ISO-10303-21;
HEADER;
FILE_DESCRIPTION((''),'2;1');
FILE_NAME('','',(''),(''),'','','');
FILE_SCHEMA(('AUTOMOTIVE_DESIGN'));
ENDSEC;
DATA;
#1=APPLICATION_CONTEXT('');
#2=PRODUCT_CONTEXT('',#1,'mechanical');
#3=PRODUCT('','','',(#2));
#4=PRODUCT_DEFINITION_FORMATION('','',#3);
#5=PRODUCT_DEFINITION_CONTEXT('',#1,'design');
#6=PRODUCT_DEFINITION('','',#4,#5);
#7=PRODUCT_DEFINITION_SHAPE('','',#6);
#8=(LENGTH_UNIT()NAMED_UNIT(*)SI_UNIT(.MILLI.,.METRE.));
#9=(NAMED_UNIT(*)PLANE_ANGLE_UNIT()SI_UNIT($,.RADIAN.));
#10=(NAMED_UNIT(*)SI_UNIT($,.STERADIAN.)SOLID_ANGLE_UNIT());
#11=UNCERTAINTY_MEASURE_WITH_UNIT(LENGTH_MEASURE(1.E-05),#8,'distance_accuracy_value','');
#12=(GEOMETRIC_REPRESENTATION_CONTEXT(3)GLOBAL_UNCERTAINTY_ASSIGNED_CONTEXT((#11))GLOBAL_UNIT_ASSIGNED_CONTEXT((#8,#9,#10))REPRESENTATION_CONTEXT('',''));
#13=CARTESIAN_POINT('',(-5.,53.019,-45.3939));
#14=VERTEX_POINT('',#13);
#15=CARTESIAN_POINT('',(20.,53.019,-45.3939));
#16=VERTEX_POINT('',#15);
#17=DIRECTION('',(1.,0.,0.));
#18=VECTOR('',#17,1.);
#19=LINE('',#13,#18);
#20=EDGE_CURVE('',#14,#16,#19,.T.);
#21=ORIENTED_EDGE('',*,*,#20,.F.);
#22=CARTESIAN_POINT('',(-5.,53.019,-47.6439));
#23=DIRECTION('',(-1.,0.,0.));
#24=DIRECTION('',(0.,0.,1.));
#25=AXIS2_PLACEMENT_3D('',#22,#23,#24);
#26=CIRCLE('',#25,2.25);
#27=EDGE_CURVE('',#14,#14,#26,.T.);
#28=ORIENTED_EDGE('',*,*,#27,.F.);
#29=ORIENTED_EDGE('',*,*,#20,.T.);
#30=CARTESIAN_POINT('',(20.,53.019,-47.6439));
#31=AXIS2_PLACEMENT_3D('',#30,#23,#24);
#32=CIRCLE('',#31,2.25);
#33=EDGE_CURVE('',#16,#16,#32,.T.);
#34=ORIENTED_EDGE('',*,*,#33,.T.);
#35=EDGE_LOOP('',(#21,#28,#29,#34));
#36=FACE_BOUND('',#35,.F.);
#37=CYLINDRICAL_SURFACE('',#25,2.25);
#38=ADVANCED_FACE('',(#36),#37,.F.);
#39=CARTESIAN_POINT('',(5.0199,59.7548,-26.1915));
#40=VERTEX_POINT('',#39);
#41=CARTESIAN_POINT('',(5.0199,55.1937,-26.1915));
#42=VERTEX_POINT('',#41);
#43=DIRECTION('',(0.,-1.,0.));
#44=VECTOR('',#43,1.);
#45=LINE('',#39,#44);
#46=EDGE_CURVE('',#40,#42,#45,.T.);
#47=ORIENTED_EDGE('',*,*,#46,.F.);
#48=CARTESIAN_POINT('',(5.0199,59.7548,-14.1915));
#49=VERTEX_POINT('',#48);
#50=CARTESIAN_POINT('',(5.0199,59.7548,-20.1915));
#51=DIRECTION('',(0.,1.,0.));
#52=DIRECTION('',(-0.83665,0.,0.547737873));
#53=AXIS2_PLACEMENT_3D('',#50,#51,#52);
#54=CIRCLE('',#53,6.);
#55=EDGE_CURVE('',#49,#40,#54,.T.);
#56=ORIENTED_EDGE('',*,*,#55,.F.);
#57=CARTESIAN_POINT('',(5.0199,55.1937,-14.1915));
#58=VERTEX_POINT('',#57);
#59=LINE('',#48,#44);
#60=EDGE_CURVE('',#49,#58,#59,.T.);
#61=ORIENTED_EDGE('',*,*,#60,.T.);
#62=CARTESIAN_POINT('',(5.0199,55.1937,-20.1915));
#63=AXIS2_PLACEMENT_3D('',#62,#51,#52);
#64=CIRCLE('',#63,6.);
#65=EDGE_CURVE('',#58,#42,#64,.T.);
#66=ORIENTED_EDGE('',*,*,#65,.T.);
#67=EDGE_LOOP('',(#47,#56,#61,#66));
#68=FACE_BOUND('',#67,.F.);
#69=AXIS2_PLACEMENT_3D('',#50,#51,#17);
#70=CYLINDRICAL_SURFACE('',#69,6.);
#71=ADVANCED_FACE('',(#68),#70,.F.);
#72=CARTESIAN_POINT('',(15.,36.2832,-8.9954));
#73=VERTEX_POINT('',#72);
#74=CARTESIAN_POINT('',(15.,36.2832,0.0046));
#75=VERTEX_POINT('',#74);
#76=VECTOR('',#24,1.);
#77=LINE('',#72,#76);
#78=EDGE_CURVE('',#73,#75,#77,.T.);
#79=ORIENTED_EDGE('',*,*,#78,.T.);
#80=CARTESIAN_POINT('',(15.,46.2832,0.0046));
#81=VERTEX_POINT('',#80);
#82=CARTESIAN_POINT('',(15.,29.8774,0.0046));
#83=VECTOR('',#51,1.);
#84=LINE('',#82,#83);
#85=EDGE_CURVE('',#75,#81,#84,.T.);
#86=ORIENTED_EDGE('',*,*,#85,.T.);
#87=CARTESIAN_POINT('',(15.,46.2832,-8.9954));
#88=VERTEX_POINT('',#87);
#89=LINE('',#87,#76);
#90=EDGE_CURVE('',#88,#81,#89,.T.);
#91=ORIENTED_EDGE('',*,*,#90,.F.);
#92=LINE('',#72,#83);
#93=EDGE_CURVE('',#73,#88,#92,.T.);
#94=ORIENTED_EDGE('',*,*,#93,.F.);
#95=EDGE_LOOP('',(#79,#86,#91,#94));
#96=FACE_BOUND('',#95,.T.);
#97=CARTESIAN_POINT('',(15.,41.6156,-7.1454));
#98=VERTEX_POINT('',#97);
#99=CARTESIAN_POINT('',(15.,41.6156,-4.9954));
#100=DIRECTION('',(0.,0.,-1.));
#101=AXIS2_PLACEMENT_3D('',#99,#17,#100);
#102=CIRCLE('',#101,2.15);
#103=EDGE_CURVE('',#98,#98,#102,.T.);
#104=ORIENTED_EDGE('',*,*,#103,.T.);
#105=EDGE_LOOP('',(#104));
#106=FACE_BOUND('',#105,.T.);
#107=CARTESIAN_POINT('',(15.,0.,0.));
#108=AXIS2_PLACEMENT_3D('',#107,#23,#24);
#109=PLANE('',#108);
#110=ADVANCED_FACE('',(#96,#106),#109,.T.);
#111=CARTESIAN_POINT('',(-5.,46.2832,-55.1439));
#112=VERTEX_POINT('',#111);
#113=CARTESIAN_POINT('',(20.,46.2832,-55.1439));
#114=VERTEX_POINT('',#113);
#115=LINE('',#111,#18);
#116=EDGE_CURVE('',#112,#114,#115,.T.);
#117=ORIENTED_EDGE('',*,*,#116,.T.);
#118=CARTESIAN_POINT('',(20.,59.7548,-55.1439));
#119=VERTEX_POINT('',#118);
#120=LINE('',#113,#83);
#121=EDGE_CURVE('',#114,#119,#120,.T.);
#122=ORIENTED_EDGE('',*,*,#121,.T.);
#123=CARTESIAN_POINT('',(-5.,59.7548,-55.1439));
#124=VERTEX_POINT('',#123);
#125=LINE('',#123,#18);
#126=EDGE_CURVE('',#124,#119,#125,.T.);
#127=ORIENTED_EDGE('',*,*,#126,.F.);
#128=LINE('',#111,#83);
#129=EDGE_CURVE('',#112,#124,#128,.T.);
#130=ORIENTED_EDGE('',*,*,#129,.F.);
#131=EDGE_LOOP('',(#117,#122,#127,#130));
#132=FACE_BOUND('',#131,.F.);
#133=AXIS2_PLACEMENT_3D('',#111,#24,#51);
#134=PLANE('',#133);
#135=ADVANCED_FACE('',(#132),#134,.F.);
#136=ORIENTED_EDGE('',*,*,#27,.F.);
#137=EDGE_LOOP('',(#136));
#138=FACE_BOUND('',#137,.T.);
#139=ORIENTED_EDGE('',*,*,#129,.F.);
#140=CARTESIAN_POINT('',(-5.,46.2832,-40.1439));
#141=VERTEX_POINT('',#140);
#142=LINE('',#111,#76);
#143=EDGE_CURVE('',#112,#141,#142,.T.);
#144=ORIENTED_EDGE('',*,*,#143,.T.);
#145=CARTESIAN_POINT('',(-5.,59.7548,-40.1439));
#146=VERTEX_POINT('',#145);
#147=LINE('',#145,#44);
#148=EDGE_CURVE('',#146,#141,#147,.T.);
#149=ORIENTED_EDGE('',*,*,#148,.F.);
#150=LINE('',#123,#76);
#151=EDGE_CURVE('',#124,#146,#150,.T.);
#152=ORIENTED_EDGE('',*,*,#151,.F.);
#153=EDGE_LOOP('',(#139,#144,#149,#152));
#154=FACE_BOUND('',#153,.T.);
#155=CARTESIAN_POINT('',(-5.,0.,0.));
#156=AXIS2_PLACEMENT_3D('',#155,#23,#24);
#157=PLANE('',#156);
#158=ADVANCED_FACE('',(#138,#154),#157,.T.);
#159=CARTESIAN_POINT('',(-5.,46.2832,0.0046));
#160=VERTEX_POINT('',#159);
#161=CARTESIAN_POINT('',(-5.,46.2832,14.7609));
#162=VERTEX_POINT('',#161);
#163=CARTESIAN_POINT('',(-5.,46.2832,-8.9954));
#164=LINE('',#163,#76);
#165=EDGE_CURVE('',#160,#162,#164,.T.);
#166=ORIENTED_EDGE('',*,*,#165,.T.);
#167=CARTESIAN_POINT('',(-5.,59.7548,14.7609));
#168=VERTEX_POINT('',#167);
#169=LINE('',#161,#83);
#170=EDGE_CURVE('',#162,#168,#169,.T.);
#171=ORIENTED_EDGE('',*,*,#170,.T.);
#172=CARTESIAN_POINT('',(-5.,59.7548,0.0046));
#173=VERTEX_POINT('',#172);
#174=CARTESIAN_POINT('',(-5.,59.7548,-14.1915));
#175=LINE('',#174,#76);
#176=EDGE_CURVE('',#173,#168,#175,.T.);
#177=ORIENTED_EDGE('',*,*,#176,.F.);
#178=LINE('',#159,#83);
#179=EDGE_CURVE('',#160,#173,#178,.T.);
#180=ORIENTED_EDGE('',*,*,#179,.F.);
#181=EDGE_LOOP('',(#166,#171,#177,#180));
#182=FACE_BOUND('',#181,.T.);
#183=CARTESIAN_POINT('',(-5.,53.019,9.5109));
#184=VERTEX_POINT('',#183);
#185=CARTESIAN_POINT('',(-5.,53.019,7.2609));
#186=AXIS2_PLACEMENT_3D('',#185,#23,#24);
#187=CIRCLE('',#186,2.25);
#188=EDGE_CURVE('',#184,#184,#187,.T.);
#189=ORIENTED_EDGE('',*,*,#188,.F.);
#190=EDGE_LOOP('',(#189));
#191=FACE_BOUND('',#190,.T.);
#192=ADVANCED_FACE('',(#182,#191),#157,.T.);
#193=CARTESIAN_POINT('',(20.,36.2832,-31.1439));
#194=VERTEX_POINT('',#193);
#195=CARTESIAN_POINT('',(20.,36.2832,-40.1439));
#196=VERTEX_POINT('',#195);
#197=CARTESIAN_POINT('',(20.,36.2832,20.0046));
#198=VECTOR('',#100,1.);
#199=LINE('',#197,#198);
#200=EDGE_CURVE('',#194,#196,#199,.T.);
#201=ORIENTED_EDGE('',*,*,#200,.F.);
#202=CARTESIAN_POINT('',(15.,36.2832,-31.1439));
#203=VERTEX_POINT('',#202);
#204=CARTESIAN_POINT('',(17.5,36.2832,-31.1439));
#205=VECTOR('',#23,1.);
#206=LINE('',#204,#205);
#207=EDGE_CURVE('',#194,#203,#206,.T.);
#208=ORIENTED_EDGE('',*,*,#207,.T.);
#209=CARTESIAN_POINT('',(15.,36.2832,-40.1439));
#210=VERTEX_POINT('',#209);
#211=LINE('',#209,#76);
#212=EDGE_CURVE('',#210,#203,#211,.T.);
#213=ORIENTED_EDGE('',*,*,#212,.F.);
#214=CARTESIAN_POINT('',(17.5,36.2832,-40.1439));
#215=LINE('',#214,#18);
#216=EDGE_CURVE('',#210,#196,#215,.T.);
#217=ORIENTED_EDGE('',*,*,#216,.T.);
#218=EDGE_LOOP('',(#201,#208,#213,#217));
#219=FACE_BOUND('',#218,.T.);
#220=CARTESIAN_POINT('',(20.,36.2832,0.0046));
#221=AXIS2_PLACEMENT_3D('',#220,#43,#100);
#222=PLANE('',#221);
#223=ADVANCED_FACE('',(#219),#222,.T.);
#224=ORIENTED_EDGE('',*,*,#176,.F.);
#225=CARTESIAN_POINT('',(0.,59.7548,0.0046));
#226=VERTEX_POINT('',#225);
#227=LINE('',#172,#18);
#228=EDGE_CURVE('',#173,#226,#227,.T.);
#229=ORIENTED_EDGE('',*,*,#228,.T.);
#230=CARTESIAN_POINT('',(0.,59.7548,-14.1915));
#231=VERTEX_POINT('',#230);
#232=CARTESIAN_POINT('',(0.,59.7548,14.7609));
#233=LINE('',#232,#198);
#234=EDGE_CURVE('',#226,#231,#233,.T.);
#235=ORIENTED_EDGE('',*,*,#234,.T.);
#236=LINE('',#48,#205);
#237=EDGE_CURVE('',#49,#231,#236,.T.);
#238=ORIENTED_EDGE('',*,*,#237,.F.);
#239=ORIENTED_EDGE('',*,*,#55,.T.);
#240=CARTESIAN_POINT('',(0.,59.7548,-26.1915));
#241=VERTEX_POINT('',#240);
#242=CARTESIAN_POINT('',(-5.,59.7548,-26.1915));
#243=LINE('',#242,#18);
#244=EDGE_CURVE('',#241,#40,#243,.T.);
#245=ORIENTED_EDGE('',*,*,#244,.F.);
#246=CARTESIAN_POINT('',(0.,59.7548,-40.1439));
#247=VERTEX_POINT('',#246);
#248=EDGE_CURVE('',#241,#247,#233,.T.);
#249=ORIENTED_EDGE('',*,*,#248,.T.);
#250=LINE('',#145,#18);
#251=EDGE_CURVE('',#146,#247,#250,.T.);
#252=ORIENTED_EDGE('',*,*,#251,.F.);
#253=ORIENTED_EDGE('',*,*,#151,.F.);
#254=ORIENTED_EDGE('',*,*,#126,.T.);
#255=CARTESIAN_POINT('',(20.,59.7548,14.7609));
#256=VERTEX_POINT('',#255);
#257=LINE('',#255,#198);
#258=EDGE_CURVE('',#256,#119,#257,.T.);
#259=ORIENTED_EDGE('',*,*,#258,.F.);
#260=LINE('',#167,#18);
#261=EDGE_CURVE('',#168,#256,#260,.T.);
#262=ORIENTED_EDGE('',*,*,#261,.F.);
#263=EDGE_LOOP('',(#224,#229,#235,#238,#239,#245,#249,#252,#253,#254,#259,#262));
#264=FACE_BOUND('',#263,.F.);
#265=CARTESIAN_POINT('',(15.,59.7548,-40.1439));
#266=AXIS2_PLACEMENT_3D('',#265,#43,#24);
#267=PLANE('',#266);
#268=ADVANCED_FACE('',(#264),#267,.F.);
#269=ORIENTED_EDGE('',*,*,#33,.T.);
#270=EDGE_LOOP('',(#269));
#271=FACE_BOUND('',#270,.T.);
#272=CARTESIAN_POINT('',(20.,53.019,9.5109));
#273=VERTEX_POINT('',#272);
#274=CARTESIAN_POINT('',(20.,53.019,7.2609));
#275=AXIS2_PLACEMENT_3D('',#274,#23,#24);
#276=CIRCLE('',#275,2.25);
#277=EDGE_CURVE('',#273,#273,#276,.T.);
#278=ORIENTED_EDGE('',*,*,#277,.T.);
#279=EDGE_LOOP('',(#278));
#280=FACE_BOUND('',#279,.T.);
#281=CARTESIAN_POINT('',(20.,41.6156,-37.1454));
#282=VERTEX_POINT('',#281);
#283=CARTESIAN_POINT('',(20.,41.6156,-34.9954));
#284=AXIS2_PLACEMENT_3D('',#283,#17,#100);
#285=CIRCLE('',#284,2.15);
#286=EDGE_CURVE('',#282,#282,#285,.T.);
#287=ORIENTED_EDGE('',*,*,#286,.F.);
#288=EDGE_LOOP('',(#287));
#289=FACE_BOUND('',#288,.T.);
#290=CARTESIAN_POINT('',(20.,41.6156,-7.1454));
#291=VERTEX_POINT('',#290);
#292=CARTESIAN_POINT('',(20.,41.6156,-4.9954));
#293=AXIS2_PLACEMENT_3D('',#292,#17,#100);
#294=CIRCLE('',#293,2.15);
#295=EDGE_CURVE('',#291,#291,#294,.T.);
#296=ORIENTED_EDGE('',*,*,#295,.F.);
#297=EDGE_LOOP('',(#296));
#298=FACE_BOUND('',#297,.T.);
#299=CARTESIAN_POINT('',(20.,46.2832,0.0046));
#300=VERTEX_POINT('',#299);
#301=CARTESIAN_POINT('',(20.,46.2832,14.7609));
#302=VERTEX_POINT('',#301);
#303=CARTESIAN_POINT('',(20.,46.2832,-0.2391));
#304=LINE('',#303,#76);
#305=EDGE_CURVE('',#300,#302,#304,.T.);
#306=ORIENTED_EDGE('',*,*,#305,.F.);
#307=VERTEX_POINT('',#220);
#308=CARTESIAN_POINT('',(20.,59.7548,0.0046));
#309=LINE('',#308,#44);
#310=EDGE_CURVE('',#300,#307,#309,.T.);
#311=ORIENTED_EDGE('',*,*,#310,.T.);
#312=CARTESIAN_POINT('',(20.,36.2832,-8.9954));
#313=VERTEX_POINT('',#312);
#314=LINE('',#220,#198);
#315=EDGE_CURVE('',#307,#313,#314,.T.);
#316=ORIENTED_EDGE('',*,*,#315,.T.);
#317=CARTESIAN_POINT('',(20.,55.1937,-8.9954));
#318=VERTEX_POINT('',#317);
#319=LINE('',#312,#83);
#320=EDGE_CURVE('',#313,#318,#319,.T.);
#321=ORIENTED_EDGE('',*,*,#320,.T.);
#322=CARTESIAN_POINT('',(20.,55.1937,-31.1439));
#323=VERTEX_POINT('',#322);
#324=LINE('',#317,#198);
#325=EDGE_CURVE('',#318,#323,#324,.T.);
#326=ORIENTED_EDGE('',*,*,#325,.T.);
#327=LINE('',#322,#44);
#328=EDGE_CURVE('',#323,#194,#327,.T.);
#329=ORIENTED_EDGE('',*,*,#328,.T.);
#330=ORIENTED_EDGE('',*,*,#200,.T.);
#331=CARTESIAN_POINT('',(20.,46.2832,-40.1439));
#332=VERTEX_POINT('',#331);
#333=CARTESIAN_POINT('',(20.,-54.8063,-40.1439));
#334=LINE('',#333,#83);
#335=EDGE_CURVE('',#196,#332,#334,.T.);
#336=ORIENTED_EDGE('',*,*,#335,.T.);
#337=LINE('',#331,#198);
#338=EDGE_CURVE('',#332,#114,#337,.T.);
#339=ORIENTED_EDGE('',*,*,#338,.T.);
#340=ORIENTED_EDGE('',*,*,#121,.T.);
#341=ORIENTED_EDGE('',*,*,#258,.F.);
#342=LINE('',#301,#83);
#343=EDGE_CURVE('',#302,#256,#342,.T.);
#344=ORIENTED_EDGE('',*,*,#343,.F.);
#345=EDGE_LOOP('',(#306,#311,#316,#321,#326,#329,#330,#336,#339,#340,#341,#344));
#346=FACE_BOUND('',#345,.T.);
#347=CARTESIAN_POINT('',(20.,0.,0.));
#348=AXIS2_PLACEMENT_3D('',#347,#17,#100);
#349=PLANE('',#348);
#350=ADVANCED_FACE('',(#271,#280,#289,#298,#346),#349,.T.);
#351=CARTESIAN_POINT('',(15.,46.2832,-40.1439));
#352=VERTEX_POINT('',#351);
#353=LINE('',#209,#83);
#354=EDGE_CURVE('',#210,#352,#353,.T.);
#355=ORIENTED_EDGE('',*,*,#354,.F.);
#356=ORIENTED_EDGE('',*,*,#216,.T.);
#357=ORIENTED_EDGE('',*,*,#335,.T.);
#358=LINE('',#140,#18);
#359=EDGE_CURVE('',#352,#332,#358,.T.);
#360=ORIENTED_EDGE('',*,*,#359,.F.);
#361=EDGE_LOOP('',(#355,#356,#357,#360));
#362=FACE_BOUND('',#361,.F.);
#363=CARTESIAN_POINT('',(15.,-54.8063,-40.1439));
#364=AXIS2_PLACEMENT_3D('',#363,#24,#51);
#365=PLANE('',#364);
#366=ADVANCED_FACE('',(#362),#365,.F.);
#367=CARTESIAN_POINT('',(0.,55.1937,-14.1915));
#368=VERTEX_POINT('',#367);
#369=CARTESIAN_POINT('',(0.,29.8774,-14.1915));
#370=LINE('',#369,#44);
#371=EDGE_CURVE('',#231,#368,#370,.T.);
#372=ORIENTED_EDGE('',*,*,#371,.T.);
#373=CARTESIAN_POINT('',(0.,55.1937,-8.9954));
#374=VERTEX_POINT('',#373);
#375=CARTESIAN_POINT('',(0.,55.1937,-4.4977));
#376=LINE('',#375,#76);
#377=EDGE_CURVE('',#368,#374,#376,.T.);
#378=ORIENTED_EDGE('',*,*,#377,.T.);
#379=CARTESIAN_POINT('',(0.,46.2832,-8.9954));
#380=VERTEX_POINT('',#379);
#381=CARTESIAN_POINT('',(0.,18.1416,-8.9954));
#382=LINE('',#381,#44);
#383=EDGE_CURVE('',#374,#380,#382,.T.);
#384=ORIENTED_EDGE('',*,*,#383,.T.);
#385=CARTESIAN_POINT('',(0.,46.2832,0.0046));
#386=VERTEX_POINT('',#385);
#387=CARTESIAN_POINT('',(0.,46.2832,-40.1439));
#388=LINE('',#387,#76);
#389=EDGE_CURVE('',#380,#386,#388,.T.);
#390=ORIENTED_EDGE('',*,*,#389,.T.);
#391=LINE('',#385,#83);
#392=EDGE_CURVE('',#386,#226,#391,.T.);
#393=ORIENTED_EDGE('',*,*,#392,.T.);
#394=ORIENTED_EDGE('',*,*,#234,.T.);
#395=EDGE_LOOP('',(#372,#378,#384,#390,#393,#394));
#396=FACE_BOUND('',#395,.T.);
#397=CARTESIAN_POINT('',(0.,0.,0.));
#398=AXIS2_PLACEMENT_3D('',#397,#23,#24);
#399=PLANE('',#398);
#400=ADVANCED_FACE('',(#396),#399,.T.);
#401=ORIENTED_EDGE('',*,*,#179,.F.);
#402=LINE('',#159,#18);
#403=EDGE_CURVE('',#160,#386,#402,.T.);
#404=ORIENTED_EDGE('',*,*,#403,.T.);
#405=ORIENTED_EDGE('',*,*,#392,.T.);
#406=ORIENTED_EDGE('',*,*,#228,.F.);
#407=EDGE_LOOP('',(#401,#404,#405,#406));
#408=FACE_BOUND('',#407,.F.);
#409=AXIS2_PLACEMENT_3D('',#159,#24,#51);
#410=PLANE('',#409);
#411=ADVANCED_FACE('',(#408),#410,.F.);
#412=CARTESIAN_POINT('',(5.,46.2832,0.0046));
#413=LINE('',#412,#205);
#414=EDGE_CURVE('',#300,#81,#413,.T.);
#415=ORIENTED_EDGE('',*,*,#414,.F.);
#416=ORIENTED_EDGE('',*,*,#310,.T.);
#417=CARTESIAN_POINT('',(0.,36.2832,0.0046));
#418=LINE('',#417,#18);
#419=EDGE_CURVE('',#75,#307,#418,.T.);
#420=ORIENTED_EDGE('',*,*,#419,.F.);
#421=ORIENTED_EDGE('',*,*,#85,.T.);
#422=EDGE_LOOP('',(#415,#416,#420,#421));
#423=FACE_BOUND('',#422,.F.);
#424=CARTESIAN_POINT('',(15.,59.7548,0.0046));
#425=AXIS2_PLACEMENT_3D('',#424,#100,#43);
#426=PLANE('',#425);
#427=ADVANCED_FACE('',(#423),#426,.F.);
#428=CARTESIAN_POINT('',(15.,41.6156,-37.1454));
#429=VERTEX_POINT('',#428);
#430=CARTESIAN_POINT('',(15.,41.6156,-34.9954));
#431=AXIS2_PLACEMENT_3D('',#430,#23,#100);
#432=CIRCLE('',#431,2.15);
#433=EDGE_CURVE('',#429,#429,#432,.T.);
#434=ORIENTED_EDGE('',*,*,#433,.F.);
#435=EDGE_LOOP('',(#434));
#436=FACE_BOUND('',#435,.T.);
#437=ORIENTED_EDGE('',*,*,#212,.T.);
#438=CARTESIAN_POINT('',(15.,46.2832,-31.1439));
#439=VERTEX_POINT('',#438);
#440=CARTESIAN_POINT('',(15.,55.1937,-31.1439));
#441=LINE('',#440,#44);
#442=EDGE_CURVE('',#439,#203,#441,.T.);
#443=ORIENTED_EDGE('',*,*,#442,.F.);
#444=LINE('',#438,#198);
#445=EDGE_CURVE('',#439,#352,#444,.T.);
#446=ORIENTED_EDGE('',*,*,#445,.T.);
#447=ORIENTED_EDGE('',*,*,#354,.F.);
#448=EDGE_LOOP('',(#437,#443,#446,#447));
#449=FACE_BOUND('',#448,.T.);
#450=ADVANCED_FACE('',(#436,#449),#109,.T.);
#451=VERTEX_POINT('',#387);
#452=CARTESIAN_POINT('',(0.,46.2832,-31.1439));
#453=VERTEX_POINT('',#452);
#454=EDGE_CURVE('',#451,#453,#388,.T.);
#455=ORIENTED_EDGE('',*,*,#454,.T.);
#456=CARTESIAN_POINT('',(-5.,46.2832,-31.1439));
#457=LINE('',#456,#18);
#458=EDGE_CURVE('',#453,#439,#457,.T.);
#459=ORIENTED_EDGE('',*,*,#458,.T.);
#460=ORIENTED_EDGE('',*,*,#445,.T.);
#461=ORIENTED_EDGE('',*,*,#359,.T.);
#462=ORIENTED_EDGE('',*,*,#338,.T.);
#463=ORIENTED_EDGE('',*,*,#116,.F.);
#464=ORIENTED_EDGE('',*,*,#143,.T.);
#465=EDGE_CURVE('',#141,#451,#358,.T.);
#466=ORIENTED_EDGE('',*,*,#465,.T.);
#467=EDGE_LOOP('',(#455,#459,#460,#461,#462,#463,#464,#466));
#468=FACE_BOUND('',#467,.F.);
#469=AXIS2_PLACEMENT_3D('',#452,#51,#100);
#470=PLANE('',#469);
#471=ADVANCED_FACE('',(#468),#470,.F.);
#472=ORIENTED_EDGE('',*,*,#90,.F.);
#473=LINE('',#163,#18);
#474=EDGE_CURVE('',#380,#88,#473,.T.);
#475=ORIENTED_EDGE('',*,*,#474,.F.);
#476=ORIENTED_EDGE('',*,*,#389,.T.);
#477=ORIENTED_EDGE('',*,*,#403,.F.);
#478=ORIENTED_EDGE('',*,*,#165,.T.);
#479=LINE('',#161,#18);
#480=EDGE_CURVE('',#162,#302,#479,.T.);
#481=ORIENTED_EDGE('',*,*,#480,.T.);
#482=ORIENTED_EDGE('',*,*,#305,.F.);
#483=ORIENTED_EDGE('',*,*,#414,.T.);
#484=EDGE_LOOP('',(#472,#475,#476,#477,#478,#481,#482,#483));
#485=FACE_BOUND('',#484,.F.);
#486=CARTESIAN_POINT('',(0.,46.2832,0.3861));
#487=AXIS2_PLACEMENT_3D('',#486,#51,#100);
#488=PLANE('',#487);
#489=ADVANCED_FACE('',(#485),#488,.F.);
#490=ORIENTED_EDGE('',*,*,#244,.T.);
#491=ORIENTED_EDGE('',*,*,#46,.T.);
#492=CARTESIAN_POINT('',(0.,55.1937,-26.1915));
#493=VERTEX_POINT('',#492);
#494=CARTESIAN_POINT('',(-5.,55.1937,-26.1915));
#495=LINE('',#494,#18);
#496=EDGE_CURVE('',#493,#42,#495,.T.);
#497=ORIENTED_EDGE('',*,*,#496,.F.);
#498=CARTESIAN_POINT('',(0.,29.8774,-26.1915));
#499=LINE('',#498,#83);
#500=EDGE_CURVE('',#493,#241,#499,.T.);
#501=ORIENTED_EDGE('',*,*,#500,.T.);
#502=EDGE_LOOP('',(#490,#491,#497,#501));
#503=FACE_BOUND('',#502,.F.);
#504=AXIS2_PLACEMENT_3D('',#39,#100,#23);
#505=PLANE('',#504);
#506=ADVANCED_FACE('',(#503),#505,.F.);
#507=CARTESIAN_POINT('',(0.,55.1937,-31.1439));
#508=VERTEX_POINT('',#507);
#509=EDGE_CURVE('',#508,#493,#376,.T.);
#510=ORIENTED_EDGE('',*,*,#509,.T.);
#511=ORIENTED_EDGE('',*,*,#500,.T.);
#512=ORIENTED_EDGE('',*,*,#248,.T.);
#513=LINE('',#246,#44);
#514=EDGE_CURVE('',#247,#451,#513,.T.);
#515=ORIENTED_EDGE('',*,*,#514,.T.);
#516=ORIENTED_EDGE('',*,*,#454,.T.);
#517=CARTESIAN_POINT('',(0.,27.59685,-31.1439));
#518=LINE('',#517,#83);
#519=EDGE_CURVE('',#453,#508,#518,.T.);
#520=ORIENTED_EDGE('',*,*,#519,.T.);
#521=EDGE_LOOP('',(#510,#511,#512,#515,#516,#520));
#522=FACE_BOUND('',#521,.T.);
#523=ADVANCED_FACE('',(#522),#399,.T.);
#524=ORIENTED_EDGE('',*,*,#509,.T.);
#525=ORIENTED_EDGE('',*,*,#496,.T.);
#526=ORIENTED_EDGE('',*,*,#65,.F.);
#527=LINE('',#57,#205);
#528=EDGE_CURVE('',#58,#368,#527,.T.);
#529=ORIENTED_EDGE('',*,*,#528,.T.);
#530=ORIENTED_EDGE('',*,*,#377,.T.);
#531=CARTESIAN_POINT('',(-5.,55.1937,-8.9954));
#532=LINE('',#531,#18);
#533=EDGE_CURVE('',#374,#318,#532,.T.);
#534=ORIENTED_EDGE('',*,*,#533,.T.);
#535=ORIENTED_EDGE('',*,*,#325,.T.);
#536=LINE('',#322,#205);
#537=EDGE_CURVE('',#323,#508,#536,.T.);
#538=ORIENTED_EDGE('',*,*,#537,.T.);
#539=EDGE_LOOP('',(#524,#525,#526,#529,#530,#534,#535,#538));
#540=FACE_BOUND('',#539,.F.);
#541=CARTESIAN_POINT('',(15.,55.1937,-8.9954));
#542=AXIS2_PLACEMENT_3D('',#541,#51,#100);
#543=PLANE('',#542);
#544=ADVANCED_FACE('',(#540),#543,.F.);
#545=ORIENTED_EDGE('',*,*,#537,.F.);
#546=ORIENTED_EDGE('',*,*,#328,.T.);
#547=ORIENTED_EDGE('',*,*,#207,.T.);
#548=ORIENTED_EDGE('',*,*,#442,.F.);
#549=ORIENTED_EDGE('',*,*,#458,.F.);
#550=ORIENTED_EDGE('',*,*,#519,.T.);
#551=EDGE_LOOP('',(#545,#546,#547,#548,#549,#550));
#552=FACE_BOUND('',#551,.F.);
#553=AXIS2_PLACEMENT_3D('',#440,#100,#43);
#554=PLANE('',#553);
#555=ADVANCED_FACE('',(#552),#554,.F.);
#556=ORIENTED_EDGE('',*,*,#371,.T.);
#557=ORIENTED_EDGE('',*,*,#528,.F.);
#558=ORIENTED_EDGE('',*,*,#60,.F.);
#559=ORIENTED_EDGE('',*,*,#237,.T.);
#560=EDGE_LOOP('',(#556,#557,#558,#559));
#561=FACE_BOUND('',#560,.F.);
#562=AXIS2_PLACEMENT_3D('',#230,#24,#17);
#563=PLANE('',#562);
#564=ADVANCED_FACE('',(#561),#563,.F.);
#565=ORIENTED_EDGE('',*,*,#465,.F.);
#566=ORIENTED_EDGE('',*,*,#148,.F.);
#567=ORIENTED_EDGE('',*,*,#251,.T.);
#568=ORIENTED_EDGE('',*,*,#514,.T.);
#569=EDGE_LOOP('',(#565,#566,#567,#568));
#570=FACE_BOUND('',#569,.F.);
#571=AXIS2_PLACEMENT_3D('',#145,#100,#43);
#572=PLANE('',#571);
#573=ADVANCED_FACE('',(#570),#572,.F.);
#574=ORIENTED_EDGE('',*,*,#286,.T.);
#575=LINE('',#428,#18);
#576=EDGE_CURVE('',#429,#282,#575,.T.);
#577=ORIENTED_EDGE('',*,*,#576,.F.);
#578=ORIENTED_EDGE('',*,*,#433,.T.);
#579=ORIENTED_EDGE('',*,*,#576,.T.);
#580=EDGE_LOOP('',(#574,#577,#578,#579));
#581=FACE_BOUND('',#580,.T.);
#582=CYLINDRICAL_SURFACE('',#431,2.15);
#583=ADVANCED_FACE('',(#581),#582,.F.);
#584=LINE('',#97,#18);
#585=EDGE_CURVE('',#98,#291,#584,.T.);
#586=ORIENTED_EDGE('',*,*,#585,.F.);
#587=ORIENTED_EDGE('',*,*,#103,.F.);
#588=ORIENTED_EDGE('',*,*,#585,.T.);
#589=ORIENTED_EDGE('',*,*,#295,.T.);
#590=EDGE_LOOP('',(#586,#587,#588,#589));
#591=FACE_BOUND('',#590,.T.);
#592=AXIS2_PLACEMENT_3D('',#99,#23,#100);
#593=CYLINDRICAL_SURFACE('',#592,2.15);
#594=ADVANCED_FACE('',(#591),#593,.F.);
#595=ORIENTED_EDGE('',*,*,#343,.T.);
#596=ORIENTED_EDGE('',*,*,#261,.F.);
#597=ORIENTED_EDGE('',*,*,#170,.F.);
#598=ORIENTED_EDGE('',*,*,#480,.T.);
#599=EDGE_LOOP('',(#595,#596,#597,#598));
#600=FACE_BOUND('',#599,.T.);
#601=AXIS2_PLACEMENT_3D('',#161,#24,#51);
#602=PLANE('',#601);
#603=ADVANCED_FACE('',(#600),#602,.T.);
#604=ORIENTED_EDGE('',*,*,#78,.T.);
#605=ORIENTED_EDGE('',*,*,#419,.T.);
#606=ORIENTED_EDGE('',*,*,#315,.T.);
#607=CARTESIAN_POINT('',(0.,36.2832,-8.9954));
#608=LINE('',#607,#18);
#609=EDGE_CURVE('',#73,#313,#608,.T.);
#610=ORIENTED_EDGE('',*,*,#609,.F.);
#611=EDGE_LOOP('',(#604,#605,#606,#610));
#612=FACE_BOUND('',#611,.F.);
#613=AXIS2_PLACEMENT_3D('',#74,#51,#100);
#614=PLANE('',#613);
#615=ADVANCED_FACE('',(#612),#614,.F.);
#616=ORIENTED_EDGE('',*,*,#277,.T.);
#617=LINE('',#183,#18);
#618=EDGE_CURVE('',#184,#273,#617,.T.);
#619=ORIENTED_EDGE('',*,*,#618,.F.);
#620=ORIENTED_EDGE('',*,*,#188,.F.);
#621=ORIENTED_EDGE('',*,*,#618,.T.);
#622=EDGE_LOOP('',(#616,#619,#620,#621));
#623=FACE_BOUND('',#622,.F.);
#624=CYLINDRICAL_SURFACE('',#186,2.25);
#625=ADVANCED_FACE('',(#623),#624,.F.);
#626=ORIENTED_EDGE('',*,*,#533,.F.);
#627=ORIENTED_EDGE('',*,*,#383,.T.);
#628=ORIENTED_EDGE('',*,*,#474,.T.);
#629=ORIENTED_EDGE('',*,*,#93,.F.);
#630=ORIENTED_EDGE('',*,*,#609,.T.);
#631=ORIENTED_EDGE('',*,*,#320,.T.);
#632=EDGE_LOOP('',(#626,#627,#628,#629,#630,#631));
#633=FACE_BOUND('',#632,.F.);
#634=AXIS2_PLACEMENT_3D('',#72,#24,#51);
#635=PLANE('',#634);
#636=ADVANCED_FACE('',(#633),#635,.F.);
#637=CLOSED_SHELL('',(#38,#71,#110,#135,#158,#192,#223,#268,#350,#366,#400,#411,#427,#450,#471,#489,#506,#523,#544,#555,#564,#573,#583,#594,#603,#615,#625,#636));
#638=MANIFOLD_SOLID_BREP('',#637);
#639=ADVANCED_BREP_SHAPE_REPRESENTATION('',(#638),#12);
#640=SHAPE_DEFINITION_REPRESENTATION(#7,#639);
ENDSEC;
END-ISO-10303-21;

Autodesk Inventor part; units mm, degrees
ref_plane "YZ Plane" through (0, 0, 0) normal (1, 0, 0) x (0, 1, 0)
ref_plane "XZ Plane" through (0, 0, 0) normal (0, 1, 0) x (-1, 0, 0)
ref_plane "XY Plane" through (0, 0, 0) normal (0, 0, 1) x (1, 0, 0)
sketch "Esquisse1" plane through (0, 0, 0) normal (1, 0, 0) x (0, 1, 0)
  line L0 (-54.8063, -40.1439) -> (54.7548, -40.1439)
  line L1 (54.7548, 0.0046) -> (-54.8063, 0.0046)
  line L2 (41.6156, -39.9954) -> (41.6156, -34.9954) construction
  line L3 (41.6156, -34.9954) -> (-43.4679, -34.9954) construction
  circle A0 centre (41.6156, -34.9954) radius 2.15
  circle A1 centre (1.6156, -34.9954) radius 2.15
  circle A2 centre (-38.3844, -34.9954) radius 2.15
  circle A3 centre (41.6156, -4.9954) radius 2.15
  circle A4 centre (1.6156, -4.9954) radius 2.15
  circle A5 centre (-38.3844, -4.9954) radius 2.15
  line L4 (-38.3844, 0.0046) -> (-38.3844, -4.9954) construction
  line L5 (54.7548, -40.1439) -> (59.7548, -40.1439)
  line L6 (59.7548, -40.1439) -> (59.7548, 0.0046)
  line L7 (59.7548, 0.0046) -> (54.7548, 0.0046)
  line L8 (-54.8063, -31.1439) -> (55.1937, -31.1439)
  line L9 (-54.8063, -8.9954) -> (55.1937, -8.9954)
  line L10 (-54.8063, 0.0046) -> (-54.8063, -8.9954)
  line L11 (-54.8063, -31.1439) -> (-54.8063, -40.1439)
  line L12 (55.1937, -31.1439) -> (55.1937, -8.9954)
  line L13 (-54.8063, -31.1439) -> (-54.8063, -40.1439)
  line L14 (-54.8063, -40.1439) -> (59.7548, -40.1439)
  line L15 (59.7548, -40.1439) -> (59.7548, 0.0046)
  line L16 (59.7548, 0.0046) -> (-54.8063, 0.0046)
  line L17 (-54.8063, 0.0046) -> (-54.8063, -8.9954)
  line L18 (-54.8063, -8.9954) -> (55.1937, -8.9954)
  line L19 (55.1937, -8.9954) -> (55.1937, -31.1439)
  line L20 (55.1937, -31.1439) -> (-54.8063, -31.1439)
  point P0 (0, 0)
  point P1 (60.2697, -11.7227)
  dimension "d4" = 5
  dimension "d5" = 4.3
  dimension "d6" = 40
  dimension "d7" = 30
  dimension "d8" = 5
  dimension "d9" = 5
  dimension "d10" = 110
  dimension "d11" = 9
  dimension "d12" = 110
  dimension "d14" = 40.1485
  dimension "d15" = 9
extrude "Extrusion1" add sketch "Esquisse1" along normal blind 15
sketch "Esquisse4" plane through (0, 59.7548, 0.0046) normal (0, 1, 0) x (1, 0, 0)
  circle A0 centre (5.0199, 20.1961) radius 6
  circle A1 centre (5.0199, 20.1961) radius 6
  point P0 (0, 0.0046)
  dimension "d18" = 12
extrude "Extrusion2" cut sketch "Esquisse4" against normal blind 15
sketch "Esquisse5" plane through (0, -54.8063, 0.0046) normal (0, 0, 1) x (1, 0, 0)
  line L0 (15, 114.5611) -> (15, 0) construction
  line L1 (15, 114.5611) -> (11.2, 114.5611) construction
  line L2 (0, 114.5611) -> (15, 114.5611) construction
  line L3 (11.2, 114.5611) -> (11.2, 58.3541) construction
  line L4 (15, 91.0895) -> (11.2, 91.0895)
  line L5 (11.2, 91.0895) -> (11.2, 31.0895)
  line L6 (11.2, 31.0895) -> (15, 31.0895)
  line L7 (15, 31.0895) -> (15, 91.0895)
  point P0 (0, 54.8063)
  dimension "d21" = 3.8
  dimension "d22" = 60
extrude "Extrusion3" cut sketch "Esquisse5" against normal blind 15
sketch "Esquisse6" plane through (0, -54.8063, 0.0046) normal (0, 0, 1) x (1, 0, 0)
  line L0 (11.2, 91.0895) -> (11.2, 31.0895) projected
  line L1 (11.2, 91.0895) -> (-5, 91.0895)
  line L2 (-5, 91.0895) -> (-5, 31.3621)
  line L3 (-5, 31.3621) -> (11.2, 31.3621)
  line L4 (11.2, 31.3621) -> (11.2, 91.0895)
  point P0 (0, 54.8063)
  dimension "d25" = 16.2
extrude "Extrusion4" add sketch "Esquisse6" along normal blind 30
sketch "Esquisse7" plane through (11.2, -23.7168, -8.9954) normal (1, 0, 0) x (0, 0, -1)
  line L0 (0, 60) -> (0, 0) projected
  line L1 (-9, 60) -> (0, 60) projected
  line L2 (-9, 60) -> (-39, 60) projected
  line L3 (-39, 0.2726) -> (-39, 60) projected
  line L4 (-9, 0.2726) -> (-39, 0.2726) projected
  line L5 (-9, 0) -> (-9, 0.2726) projected
  line L6 (-9, 0) -> (0, 0) projected
  circle A0 centre (-4, 25.3324) radius 2.15 projected
  circle A1 centre (-10, 31.1304) radius 1
  circle A2 centre (-18, 39.1304) radius 1
  circle A3 centre (-26, 39.1304) radius 1
  circle A4 centre (-26, 31.1304) radius 1
  circle A5 centre (-26, 23.1304) radius 1
  circle A6 centre (-18, 23.1304) radius 1
  circle A7 centre (-10, 23.1304) radius 1
  circle A8 centre (-10, 39.1304) radius 1
  point P0 (-8.9954, 23.7168)
  dimension "d28" = 10
  dimension "d29" = 16
  dimension "d30" = 8
  dimension "d31" = 8
  dimension "d32" = 8
  dimension "d33" = 8
  dimension "d34" = 8
  dimension "d35" = 8
extrude "Extrusion5" cut sketch "Esquisse7" against normal blind 30 contours A1 | A2 | A3 | A4 | A5 | A6 | A7 | A8
sketch "Esquisse8" plane through (15, 0, 0) normal (1, 0, 0) x (0, 0, -1)
  line L0 (-0.0046, 36.2832) -> (8.9954, 36.2832) projected
  line L1 (8.9954, 36.2832) -> (8.9954, 55.1937) projected
  line L2 (8.9954, 55.1937) -> (31.1439, 55.1937) projected
  line L3 (31.1439, 55.1937) -> (31.1439, -54.8063) projected
  line L4 (31.1439, -54.8063) -> (40.1439, -54.8063) projected
  line L5 (40.1439, -54.8063) -> (40.1439, 59.7548) projected
  line L6 (40.1439, 59.7548) -> (-0.0046, 59.7548) projected
  line L7 (-0.0046, 59.7548) -> (-0.0046, 36.2832) projected
  circle A0 centre (4.9954, 41.6156) radius 2.15 projected
  circle A1 centre (34.9954, -38.3844) radius 2.15 projected
  circle A2 centre (34.9954, 1.6156) radius 2.15 projected
  circle A3 centre (34.9954, 41.6156) radius 2.15 projected
  point P0 (0, 0)
sketch "Esquisse10" plane through (15, 0, 0) normal (1, 0, 0) x (0, 0, -1)
  line L0 (31.0084, 36.2646) -> (31.0084, -23.7354)
  circle A0 centre (41.0084, -0.605) radius 1
  circle A1 centre (57.0084, -0.605) radius 1
  circle A2 centre (57.0084, 15.395) radius 1
  circle A3 centre (41.0084, 7.395) radius 1
  circle A4 centre (49.0084, 15.395) radius 1
  circle A5 centre (57.0084, 7.395) radius 1
  circle A6 centre (49.0084, -0.605) radius 1
  circle A7 centre (41.0084, 15.395) radius 1
  line L1 (40.0084, 36.2646) -> (31.0084, 36.2646)
  line L2 (40.0084, 36.2646) -> (70.0084, 36.2646)
  line L3 (70.0084, -23.4628) -> (70.0084, 36.2646)
  line L4 (40.0084, -23.4628) -> (70.0084, -23.4628)
  line L5 (40.0084, -23.7354) -> (40.0084, -23.4628)
  line L6 (40.0084, -23.7354) -> (31.0084, -23.7354)
  circle A8 centre (35.0084, 1.597) radius 2.15
  point P0 (0, 0)
  point P1 (40.0039, -0.0185)
extrude "Extrusion6" cut sketch "Esquisse10" against normal blind 3.8 contours L1 L2 L3 L4 L5 L6 L0 | A0 | A1 | A2 | A3 | A4 | A5 | A6 | A7 | A8
sketch "Esquisse13" plane through (11.2, 0, 0) normal (1, 0, 0) x (0, 0, -1)
  line L0 (30.9931, 36.2812) -> (30.9931, -23.7188)
  circle A0 centre (40.9931, -0.5884) radius 1
  circle A1 centre (56.9931, -0.5884) radius 1
  circle A2 centre (56.9931, 15.4116) radius 1
  circle A3 centre (40.9931, 7.4116) radius 1
  circle A4 centre (48.9931, 15.4116) radius 1
  circle A5 centre (56.9931, 7.4116) radius 1
  circle A6 centre (48.9931, -0.5884) radius 1
  circle A7 centre (40.9931, 15.4116) radius 1
  line L1 (39.9931, 36.2812) -> (30.9931, 36.2812)
  line L2 (39.9931, 36.2812) -> (69.9931, 36.2812)
  line L3 (69.9931, -23.4462) -> (69.9931, 36.2812)
  line L4 (39.9931, -23.4462) -> (69.9931, -23.4462)
  line L5 (39.9931, -23.7188) -> (39.9931, -23.4462)
  line L6 (39.9931, -23.7188) -> (30.9931, -23.7188)
  circle A8 centre (34.9931, 1.6136) radius 2.15
  point P0 (0, 0)
  point P1 (39.9885, -0.002)
extrude "Extrusion7" add sketch "Esquisse13" against normal blind 16.2
sketch "Esquisse14" plane through (-5, 0, 0) normal (-1, 0, 0) x (0, 0, 1)
  circle A0 centre (-56.9931, -0.5884) radius 1 projected
  circle A1 centre (-56.9931, 7.4116) radius 1 projected
  circle A2 centre (-56.9931, 15.4116) radius 1 projected
  circle A3 centre (-48.9931, 15.4116) radius 1 projected
  circle A4 centre (-48.9931, -0.5884) radius 1 projected
  circle A5 centre (-40.9931, -0.5884) radius 1 projected
  circle A6 centre (-40.9931, 7.4116) radius 1 projected
  circle A7 centre (-40.9931, 15.4116) radius 1 projected
  circle A8 centre (-56.9931, -0.5884) radius 1 projected
  circle A9 centre (-56.9931, -0.5884) radius 3
  line L0 (-56.9931, -0.5884) -> (-56.9931, 15.4116) construction
  line L1 (-56.9931, 15.4116) -> (-40.9931, 15.4116) construction
  circle A10 centre (-56.9931, 7.4116) radius 3
  circle A11 centre (-56.9931, 15.4116) radius 3
  circle A12 centre (-48.9931, -0.5884) radius 3
  circle A13 centre (-48.9931, 7.4116) radius 3
  circle A14 centre (-48.9931, 15.4116) radius 3
  circle A15 centre (-40.9931, -0.5884) radius 3
  circle A16 centre (-40.9931, 7.4116) radius 3
  circle A17 centre (-40.9931, 15.4116) radius 3
  line L2 (-26.1915, 59.7548) -> (-14.1915, 59.7548) construction
  line L3 (-20.1915, 59.7548) -> (-20.1915, -51.3949) construction
  circle A18 centre (16.6101, -0.5884) radius 1
  circle A19 centre (16.6101, 7.4116) radius 1
  circle A20 centre (16.6101, 15.4116) radius 1
  circle A21 centre (8.6101, 15.4116) radius 1
  circle A22 centre (8.6101, -0.5884) radius 1
  circle A23 centre (0.6101, -0.5884) radius 1
  circle A24 centre (0.6101, 7.4116) radius 1
  circle A25 centre (0.6101, 15.4116) radius 1
  circle A26 centre (16.6101, -0.5884) radius 1
  circle A27 centre (16.6101, -0.5884) radius 3
  line L4 (16.6101, -0.5884) -> (16.6101, 15.4116) construction
  line L5 (16.6101, 15.4116) -> (0.6101, 15.4116) construction
  circle A28 centre (16.6101, 7.4116) radius 3
  circle A29 centre (16.6101, 15.4116) radius 3
  circle A30 centre (8.6101, -0.5884) radius 3
  circle A31 centre (8.6101, 7.4116) radius 3
  circle A32 centre (8.6101, 15.4116) radius 3
  circle A33 centre (0.6101, -0.5884) radius 3
  circle A34 centre (0.6101, 7.4116) radius 3
  circle A35 centre (0.6101, 15.4116) radius 3
  point P0 (0, 0)
  point P1 (-23.478, 59.7548)
  point P2 (-16.9051, 59.7548)
  dimension "d44" = 6
  dimension "d47" = 8
  dimension "d50" = 8
extrude "Extrusion8" cut sketch "Esquisse14" against normal blind 8 contours A0 | A1 | A2 | A3 | A4 | A5 | A6 | A7 | A9 | A10 | A11 | A12 | A14 | A15 | A16 | A17 | A18 | A19 | A20 | A21 | A22 | A23 | A24 | A25 | A27 | A28 | A29 | A30 | A32 | A33 | A34 | A35
sketch "Esquisse15" plane through (-5, 0, 0) normal (-1, 0, 0) x (0, 0, 1)
  line L0 (-39.9931, -23.7188) -> (-30.9931, -23.7188) projected
  line L1 (-40.1439, 36.2646) -> (-40.1439, 59.7548) projected
  line L2 (-30.9931, -23.7188) -> (-40.1439, -23.7188)
  line L3 (-40.1439, -23.7188) -> (-40.1439, 36.2646)
  line L4 (-40.1439, 36.2646) -> (-30.9931, 36.2646)
  line L5 (-30.9931, 36.2646) -> (-30.9931, -23.7188)
  line L6 (-40.1439, 36.2646) -> (-30.9931, 36.2646)
  line L7 (-30.9931, 36.2646) -> (-30.9931, 36.6984)
  line L8 (-30.9931, 36.6984) -> (-40.1439, 36.6984)
  line L9 (-40.1439, 36.6984) -> (-40.1439, 36.2646)
  point P0 (0, 0)
extrude "Extrusion9" cut sketch "Esquisse15" against normal blind 5
sketch "Esquisse16" plane through (11.2, -23.7188, -30.9931) normal (0, 0, 1) x (1, 0, 0)
  line L0 (-11.2, 60) -> (-11.2, 0) projected
  line L1 (0, 0) -> (-11.2, 0) projected
  line L2 (0, 0) -> (0, 60) projected
  line L3 (0, 60) -> (-11.2, 60) projected
  point P0 (-11.2, 23.7188)
extrude "Extrusion10" cut sketch "Esquisse16" against normal blind 0.15
sketch "Esquisse17" plane through (11.2, 0, 0) normal (1, 0, 0) x (0, 0, -1)
  line L0 (31.1431, 36.2812) -> (31.1431, -23.7188) projected
  line L1 (31.1439, -23.7188) -> (31.1431, -23.7188) projected
  line L2 (31.1439, -23.7354) -> (31.1439, -23.7188) projected
  line L3 (40.0084, -23.7354) -> (31.1439, -23.7354) projected
  line L4 (40.0084, -23.4628) -> (40.0084, -23.7354) projected
  line L5 (40.1439, -23.4628) -> (40.0084, -23.4628) projected
  line L6 (40.1439, -23.4462) -> (40.1439, -23.4628) projected
  line L7 (69.9931, -23.4462) -> (40.1439, -23.4462) projected
  line L8 (69.9931, 36.2812) -> (69.9931, -23.4462) projected
  line L9 (40.1439, 36.2812) -> (69.9931, 36.2812) projected
  line L10 (40.1439, 36.2646) -> (40.1439, 36.2812) projected
  line L11 (31.1439, 36.2646) -> (40.1439, 36.2646) projected
  line L12 (31.1439, 36.2812) -> (31.1439, 36.2646) projected
  line L13 (31.1431, 36.2812) -> (31.1439, 36.2812) projected
  line L14 (40.1439, -0.0603) -> (40.1439, -1.1165) projected
  arc A0 (40.1439, -1.1165) -> (40.1439, -0.0603) centre (40.9931, -0.5884) ccw projected
  line L15 (40.1439, 7.9397) -> (40.1439, 6.8835) projected
  arc A1 (40.1439, 6.8835) -> (40.1439, 7.9397) centre (40.9931, 7.4116) ccw projected
  line L16 (40.1439, 15.9397) -> (40.1439, 14.8835) projected
  arc A2 (40.1439, 14.8835) -> (40.1439, 15.9397) centre (40.9931, 15.4116) ccw projected
  circle A3 centre (48.9931, -0.5884) radius 1 projected
  circle A4 centre (56.9931, -0.5884) radius 1 projected
  circle A5 centre (56.9931, 7.4116) radius 1 projected
  circle A6 centre (48.9931, 15.4116) radius 1 projected
  circle A7 centre (56.9931, 15.4116) radius 1 projected
  arc A8 (33.6113, 3.2608) -> (36.3772, -0.0316) centre (34.9954, 1.6156) ccw projected
  arc A9 (36.3772, -0.0316) -> (33.6113, 3.2608) centre (34.9931, 1.6136) ccw projected
  line L17 (69.9931, -23.4462) -> (40.1439, -23.4462) projected
  line L18 (59.9931, -23.4462) -> (59.9931, 36.2812)
  line L19 (40.1439, 36.2812) -> (69.9931, 36.2812) projected
  line L20 (26.1915, 55.1937) -> (14.1915, 55.1937) construction
  line L21 (20.1915, 55.1937) -> (20.1915, -54.679) construction
  line L22 (-19.6101, -23.4462) -> (-19.6101, 36.2812)
  circle A10 centre (-1.0046, -0.5864) radius 1 projected
  circle A11 centre (-17.0046, -0.5864) radius 1 projected
  circle A12 centre (-17.0046, 15.4136) radius 1 projected
  circle A13 centre (-1.0046, 7.4136) radius 1 projected
  circle A14 centre (-9.0046, 15.4136) radius 1 projected
  circle A15 centre (-17.0046, 7.4136) radius 1 projected
  circle A16 centre (-9.0046, -0.5864) radius 1 projected
  circle A17 centre (-1.0046, 15.4136) radius 1 projected
  line L23 (8.9954, 36.2832) -> (8.9954, -23.7168) projected
  line L24 (-0.0046, 36.2832) -> (8.9954, 36.2832) projected
  line L25 (-0.0046, 36.2832) -> (-30.0046, 36.2832) projected
  line L26 (-30.0046, -23.4442) -> (-30.0046, 36.2832) projected
  line L27 (-0.0046, -23.4442) -> (-30.0046, -23.4442) projected
  line L28 (-0.0046, -23.7168) -> (-0.0046, -23.4442) projected
  line L29 (-0.0046, -23.7168) -> (8.9954, -23.7168) projected
  circle A18 centre (4.9954, 1.6156) radius 2.15 projected
  line L30 (-19.6101, -23.4462) -> (-19.6101, 36.2812)
  line L31 (-0.0046, 36.2832) -> (-30.0046, 36.2832) projected
  point P0 (0, 0)
  point P1 (16.9051, 55.1937)
  point P2 (23.478, 55.1937)
  dimension "d59" = 10
extrude "Extrusion11" cut sketch "Esquisse17" against normal blind 52.35 contours L9 L8 L7 L18
sketch "Esquisse18" plane through (11.2, -23.7168, -8.9954) normal (1, 0, 0) x (0, 0, -1)
  circle A0 centre (-10, 23.1304) radius 1 projected
  circle A1 centre (-26, 23.1304) radius 1 projected
  circle A2 centre (-26, 39.1304) radius 1 projected
  circle A3 centre (-10, 31.1304) radius 1 projected
  circle A4 centre (-18, 39.1304) radius 1 projected
  circle A5 centre (-26, 31.1304) radius 1 projected
  circle A6 centre (-18, 23.1304) radius 1 projected
  circle A7 centre (-10, 39.1304) radius 1 projected
  line L0 (0, 60) -> (0, 0) projected
  line L1 (-9, 60) -> (0, 60) projected
  line L2 (-9, 60) -> (-39, 60) projected
  line L3 (-39, 0.2726) -> (-39, 60) projected
  line L4 (-9, 0.2726) -> (-39, 0.2726) projected
  line L5 (-9, 0) -> (-9, 0.2726) projected
  line L6 (-9, 0) -> (0, 0) projected
  circle A8 centre (-4, 25.3324) radius 2.15 projected
  line L7 (-9, 0.2726) -> (-39, 0.2726) projected
  line L8 (-29, 0.2726) -> (-29, 60)
  line L9 (-9, 60) -> (-39, 60) projected
  line L10 (-39, 0.2726) -> (-39, 60) projected
  line L11 (-29, 0.2726) -> (-39, 0.2726)
  line L12 (-39, 0.2726) -> (-39, 60)
  line L13 (-39, 60) -> (-29, 60)
  line L14 (-29, 60) -> (-29, 0.2726)
  point P0 (-8.9954, 23.7168)
  dimension "d62" = 10
extrude "Extrusion12" cut sketch "Esquisse18" against normal blind 41.15 contours L8 L4 L3 L2
extrude "Extrusion13" add sketch "Esquisse8" along normal blind 5
sketch "Esquisse21" plane through (20, 0, 0) normal (1, 0, 0) x (0, 0, -1)
  line L0 (-0.0046, 36.2832) -> (-20.0046, 36.2832) projected
  line L1 (-20.0046, 36.2832) -> (60.2403, 36.2832)
  line L2 (60.2403, 36.2832) -> (60.2403, -56.4108)
  line L3 (60.2403, -56.4108) -> (-20.0046, -56.4108)
  line L4 (-20.0046, -56.4108) -> (-20.0046, 36.2832)
  point P0 (0, 0)
extrude "Extrusion14" cut sketch "Esquisse21" against normal blind 51
sketch "Esquisse22" plane through (0, 0, 0) normal (-1, 0, 0) x (0, 0, 1)
  line L0 (-40.1439, 36.2832) -> (-40.1439, 59.7548) projected
  line L1 (-31.1439, 55.1937) -> (-31.1439, 36.2832) projected
  line L2 (-40.1439, 36.2832) -> (-31.1439, 36.2832)
  line L3 (-31.1439, 36.2832) -> (-31.1439, 46.2832)
  line L4 (-31.1439, 46.2832) -> (-40.1439, 46.2832)
  line L5 (-40.1439, 46.2832) -> (-40.1439, 36.2832)
  line L6 (-8.9954, 36.2832) -> (-8.9954, 55.1937) projected
  line L7 (-8.9954, 36.2832) -> (0.3861, 36.2832)
  line L8 (0.3861, 36.2832) -> (0.3861, 46.2832)
  line L9 (0.3861, 46.2832) -> (-8.9954, 46.2832)
  line L10 (-8.9954, 46.2832) -> (-8.9954, 36.2832)
  point P0 (0, 0)
  dimension "d69" = 10
extrude "Extrusion15" cut sketch "Esquisse22" against normal blind 15
sketch "Esquisse23" plane through (0, 59.7548, 0.0046) normal (0, 1, 0) x (1, 0, 0)
  arc A0 (0, 16.9096) -> (0, 23.4825) centre (5.0199, 20.1961) ccw projected
  line L0 (5.0199, 26.1961) -> (5.0199, 14.1961)
  line L1 (5.0199, 26.1961) -> (0, 26.1961)
  line L2 (0, 26.1961) -> (0, 14.1961)
  line L3 (0, 14.1961) -> (5.0199, 14.1961)
  line L4 (5.0199, 14.1961) -> (5.0199, 26.1961)
  point P0 (0, 0.0046)
extrude "Extrusion16" cut sketch "Esquisse23" against normal blind 15 contours L2 A0 L0 | A0 L3 L2 | L2 L1 A0
sketch "Esquisse24" plane through (0, 0, 0) normal (-1, 0, 0) x (0, 0, 1)
  line L0 (-26.1915, 55.1937) -> (-26.1915, 59.7548) projected
  line L1 (-40.1439, 59.7548) -> (-26.1915, 59.7548) projected
  line L2 (-40.1439, 46.2832) -> (-40.1439, 59.7548) projected
  line L3 (-40.1439, 46.2832) -> (-31.1439, 46.2832) projected
  line L4 (-31.1439, 55.1937) -> (-31.1439, 46.2832) projected
  line L5 (-26.1915, 55.1937) -> (-31.1439, 55.1937) projected
  line L6 (-14.1915, 59.7548) -> (-14.1915, 55.1937) projected
  line L7 (-8.9954, 55.1937) -> (-14.1915, 55.1937) projected
  line L8 (-8.9954, 46.2832) -> (-8.9954, 55.1937) projected
  line L9 (-8.9954, 46.2832) -> (0.0046, 46.2832) projected
  line L10 (0.0046, 59.7548) -> (0.0046, 46.2832) projected
  line L11 (-14.1915, 59.7548) -> (0.0046, 59.7548) projected
  point P0 (0, 0)
extrude "Extrusion17" add sketch "Esquisse24" along normal blind 5
sketch "Esquisse26" plane through (-5, 0, 0) normal (-1, 0, 0) x (0, 0, 1)
  line L0 (-26.1915, 59.7548) -> (-14.1915, 59.7548) construction
  line L1 (-20.1915, 59.7548) -> (-20.1915, -3.4789) construction
  line L2 (-40.1439, 36.2832) -> (-40.1439, 59.7548) projected
  line L3 (-40.1439, 59.7548) -> (-55.1439, 59.7548)
  line L4 (-40.1439, 46.2832) -> (-31.1439, 46.2832) construction
  line L5 (-40.1439, 46.2832) -> (-55.1439, 46.2832)
  line L6 (-55.1439, 46.2832) -> (-55.1439, 59.7548)
  line L7 (-40.1439, 36.2832) -> (-40.1439, 46.2832) construction
  line L8 (-40.1439, 59.7548) -> (-40.1439, 46.2832) construction
  circle A0 centre (-47.6439, 53.019) radius 2.25
  line L9 (-0.2391, 36.2832) -> (-0.2391, 59.7548)
  line L10 (-0.2391, 59.7548) -> (14.7609, 59.7548)
  line L11 (-0.2391, 46.2832) -> (-9.2391, 46.2832) construction
  line L12 (-0.2391, 46.2832) -> (14.7609, 46.2832)
  line L13 (14.7609, 46.2832) -> (14.7609, 59.7548)
  line L14 (-0.2391, 36.2832) -> (-0.2391, 46.2832) construction
  line L15 (-0.2391, 59.7548) -> (-0.2391, 46.2832) construction
  circle A1 centre (7.2609, 53.019) radius 2.25
  point P0 (0, 0)
  dimension "d76" = 15
  dimension "d77" = 4.5
extrude "Extrusion18" add sketch "Esquisse26" against normal up to surface (25 mm away)
sketch "Esquisse28" plane through (-5, 0, 0) normal (-1, 0, 0) x (0, 0, 1)
  line L0 (-40.1439, 36.2832) -> (-40.1439, 46.2832) construction
  line L1 (-8.9954, 46.2832) -> (0.0046, 46.2832) construction
  line L2 (-40.1439, 46.2832) -> (0.0046, 46.2832) construction
  line L3 (-40.1439, 46.2832) -> (-31.1439, 46.2832) projected
  line L4 (14.7609, 59.7548) -> (-55.1439, 59.7548) projected
  line L5 (-40.1439, 46.2832) -> (0.0046, 46.2832)
  line L6 (0.0046, 46.2832) -> (0.0046, 59.7548)
  line L7 (0.0046, 59.7548) -> (-40.1439, 59.7548)
  line L8 (-40.1439, 59.7548) -> (-40.1439, 46.2832)
  point P0 (0, 0)
extrude "Extrusion19" cut sketch "Esquisse28" against normal blind 5
properties part number "aret"
